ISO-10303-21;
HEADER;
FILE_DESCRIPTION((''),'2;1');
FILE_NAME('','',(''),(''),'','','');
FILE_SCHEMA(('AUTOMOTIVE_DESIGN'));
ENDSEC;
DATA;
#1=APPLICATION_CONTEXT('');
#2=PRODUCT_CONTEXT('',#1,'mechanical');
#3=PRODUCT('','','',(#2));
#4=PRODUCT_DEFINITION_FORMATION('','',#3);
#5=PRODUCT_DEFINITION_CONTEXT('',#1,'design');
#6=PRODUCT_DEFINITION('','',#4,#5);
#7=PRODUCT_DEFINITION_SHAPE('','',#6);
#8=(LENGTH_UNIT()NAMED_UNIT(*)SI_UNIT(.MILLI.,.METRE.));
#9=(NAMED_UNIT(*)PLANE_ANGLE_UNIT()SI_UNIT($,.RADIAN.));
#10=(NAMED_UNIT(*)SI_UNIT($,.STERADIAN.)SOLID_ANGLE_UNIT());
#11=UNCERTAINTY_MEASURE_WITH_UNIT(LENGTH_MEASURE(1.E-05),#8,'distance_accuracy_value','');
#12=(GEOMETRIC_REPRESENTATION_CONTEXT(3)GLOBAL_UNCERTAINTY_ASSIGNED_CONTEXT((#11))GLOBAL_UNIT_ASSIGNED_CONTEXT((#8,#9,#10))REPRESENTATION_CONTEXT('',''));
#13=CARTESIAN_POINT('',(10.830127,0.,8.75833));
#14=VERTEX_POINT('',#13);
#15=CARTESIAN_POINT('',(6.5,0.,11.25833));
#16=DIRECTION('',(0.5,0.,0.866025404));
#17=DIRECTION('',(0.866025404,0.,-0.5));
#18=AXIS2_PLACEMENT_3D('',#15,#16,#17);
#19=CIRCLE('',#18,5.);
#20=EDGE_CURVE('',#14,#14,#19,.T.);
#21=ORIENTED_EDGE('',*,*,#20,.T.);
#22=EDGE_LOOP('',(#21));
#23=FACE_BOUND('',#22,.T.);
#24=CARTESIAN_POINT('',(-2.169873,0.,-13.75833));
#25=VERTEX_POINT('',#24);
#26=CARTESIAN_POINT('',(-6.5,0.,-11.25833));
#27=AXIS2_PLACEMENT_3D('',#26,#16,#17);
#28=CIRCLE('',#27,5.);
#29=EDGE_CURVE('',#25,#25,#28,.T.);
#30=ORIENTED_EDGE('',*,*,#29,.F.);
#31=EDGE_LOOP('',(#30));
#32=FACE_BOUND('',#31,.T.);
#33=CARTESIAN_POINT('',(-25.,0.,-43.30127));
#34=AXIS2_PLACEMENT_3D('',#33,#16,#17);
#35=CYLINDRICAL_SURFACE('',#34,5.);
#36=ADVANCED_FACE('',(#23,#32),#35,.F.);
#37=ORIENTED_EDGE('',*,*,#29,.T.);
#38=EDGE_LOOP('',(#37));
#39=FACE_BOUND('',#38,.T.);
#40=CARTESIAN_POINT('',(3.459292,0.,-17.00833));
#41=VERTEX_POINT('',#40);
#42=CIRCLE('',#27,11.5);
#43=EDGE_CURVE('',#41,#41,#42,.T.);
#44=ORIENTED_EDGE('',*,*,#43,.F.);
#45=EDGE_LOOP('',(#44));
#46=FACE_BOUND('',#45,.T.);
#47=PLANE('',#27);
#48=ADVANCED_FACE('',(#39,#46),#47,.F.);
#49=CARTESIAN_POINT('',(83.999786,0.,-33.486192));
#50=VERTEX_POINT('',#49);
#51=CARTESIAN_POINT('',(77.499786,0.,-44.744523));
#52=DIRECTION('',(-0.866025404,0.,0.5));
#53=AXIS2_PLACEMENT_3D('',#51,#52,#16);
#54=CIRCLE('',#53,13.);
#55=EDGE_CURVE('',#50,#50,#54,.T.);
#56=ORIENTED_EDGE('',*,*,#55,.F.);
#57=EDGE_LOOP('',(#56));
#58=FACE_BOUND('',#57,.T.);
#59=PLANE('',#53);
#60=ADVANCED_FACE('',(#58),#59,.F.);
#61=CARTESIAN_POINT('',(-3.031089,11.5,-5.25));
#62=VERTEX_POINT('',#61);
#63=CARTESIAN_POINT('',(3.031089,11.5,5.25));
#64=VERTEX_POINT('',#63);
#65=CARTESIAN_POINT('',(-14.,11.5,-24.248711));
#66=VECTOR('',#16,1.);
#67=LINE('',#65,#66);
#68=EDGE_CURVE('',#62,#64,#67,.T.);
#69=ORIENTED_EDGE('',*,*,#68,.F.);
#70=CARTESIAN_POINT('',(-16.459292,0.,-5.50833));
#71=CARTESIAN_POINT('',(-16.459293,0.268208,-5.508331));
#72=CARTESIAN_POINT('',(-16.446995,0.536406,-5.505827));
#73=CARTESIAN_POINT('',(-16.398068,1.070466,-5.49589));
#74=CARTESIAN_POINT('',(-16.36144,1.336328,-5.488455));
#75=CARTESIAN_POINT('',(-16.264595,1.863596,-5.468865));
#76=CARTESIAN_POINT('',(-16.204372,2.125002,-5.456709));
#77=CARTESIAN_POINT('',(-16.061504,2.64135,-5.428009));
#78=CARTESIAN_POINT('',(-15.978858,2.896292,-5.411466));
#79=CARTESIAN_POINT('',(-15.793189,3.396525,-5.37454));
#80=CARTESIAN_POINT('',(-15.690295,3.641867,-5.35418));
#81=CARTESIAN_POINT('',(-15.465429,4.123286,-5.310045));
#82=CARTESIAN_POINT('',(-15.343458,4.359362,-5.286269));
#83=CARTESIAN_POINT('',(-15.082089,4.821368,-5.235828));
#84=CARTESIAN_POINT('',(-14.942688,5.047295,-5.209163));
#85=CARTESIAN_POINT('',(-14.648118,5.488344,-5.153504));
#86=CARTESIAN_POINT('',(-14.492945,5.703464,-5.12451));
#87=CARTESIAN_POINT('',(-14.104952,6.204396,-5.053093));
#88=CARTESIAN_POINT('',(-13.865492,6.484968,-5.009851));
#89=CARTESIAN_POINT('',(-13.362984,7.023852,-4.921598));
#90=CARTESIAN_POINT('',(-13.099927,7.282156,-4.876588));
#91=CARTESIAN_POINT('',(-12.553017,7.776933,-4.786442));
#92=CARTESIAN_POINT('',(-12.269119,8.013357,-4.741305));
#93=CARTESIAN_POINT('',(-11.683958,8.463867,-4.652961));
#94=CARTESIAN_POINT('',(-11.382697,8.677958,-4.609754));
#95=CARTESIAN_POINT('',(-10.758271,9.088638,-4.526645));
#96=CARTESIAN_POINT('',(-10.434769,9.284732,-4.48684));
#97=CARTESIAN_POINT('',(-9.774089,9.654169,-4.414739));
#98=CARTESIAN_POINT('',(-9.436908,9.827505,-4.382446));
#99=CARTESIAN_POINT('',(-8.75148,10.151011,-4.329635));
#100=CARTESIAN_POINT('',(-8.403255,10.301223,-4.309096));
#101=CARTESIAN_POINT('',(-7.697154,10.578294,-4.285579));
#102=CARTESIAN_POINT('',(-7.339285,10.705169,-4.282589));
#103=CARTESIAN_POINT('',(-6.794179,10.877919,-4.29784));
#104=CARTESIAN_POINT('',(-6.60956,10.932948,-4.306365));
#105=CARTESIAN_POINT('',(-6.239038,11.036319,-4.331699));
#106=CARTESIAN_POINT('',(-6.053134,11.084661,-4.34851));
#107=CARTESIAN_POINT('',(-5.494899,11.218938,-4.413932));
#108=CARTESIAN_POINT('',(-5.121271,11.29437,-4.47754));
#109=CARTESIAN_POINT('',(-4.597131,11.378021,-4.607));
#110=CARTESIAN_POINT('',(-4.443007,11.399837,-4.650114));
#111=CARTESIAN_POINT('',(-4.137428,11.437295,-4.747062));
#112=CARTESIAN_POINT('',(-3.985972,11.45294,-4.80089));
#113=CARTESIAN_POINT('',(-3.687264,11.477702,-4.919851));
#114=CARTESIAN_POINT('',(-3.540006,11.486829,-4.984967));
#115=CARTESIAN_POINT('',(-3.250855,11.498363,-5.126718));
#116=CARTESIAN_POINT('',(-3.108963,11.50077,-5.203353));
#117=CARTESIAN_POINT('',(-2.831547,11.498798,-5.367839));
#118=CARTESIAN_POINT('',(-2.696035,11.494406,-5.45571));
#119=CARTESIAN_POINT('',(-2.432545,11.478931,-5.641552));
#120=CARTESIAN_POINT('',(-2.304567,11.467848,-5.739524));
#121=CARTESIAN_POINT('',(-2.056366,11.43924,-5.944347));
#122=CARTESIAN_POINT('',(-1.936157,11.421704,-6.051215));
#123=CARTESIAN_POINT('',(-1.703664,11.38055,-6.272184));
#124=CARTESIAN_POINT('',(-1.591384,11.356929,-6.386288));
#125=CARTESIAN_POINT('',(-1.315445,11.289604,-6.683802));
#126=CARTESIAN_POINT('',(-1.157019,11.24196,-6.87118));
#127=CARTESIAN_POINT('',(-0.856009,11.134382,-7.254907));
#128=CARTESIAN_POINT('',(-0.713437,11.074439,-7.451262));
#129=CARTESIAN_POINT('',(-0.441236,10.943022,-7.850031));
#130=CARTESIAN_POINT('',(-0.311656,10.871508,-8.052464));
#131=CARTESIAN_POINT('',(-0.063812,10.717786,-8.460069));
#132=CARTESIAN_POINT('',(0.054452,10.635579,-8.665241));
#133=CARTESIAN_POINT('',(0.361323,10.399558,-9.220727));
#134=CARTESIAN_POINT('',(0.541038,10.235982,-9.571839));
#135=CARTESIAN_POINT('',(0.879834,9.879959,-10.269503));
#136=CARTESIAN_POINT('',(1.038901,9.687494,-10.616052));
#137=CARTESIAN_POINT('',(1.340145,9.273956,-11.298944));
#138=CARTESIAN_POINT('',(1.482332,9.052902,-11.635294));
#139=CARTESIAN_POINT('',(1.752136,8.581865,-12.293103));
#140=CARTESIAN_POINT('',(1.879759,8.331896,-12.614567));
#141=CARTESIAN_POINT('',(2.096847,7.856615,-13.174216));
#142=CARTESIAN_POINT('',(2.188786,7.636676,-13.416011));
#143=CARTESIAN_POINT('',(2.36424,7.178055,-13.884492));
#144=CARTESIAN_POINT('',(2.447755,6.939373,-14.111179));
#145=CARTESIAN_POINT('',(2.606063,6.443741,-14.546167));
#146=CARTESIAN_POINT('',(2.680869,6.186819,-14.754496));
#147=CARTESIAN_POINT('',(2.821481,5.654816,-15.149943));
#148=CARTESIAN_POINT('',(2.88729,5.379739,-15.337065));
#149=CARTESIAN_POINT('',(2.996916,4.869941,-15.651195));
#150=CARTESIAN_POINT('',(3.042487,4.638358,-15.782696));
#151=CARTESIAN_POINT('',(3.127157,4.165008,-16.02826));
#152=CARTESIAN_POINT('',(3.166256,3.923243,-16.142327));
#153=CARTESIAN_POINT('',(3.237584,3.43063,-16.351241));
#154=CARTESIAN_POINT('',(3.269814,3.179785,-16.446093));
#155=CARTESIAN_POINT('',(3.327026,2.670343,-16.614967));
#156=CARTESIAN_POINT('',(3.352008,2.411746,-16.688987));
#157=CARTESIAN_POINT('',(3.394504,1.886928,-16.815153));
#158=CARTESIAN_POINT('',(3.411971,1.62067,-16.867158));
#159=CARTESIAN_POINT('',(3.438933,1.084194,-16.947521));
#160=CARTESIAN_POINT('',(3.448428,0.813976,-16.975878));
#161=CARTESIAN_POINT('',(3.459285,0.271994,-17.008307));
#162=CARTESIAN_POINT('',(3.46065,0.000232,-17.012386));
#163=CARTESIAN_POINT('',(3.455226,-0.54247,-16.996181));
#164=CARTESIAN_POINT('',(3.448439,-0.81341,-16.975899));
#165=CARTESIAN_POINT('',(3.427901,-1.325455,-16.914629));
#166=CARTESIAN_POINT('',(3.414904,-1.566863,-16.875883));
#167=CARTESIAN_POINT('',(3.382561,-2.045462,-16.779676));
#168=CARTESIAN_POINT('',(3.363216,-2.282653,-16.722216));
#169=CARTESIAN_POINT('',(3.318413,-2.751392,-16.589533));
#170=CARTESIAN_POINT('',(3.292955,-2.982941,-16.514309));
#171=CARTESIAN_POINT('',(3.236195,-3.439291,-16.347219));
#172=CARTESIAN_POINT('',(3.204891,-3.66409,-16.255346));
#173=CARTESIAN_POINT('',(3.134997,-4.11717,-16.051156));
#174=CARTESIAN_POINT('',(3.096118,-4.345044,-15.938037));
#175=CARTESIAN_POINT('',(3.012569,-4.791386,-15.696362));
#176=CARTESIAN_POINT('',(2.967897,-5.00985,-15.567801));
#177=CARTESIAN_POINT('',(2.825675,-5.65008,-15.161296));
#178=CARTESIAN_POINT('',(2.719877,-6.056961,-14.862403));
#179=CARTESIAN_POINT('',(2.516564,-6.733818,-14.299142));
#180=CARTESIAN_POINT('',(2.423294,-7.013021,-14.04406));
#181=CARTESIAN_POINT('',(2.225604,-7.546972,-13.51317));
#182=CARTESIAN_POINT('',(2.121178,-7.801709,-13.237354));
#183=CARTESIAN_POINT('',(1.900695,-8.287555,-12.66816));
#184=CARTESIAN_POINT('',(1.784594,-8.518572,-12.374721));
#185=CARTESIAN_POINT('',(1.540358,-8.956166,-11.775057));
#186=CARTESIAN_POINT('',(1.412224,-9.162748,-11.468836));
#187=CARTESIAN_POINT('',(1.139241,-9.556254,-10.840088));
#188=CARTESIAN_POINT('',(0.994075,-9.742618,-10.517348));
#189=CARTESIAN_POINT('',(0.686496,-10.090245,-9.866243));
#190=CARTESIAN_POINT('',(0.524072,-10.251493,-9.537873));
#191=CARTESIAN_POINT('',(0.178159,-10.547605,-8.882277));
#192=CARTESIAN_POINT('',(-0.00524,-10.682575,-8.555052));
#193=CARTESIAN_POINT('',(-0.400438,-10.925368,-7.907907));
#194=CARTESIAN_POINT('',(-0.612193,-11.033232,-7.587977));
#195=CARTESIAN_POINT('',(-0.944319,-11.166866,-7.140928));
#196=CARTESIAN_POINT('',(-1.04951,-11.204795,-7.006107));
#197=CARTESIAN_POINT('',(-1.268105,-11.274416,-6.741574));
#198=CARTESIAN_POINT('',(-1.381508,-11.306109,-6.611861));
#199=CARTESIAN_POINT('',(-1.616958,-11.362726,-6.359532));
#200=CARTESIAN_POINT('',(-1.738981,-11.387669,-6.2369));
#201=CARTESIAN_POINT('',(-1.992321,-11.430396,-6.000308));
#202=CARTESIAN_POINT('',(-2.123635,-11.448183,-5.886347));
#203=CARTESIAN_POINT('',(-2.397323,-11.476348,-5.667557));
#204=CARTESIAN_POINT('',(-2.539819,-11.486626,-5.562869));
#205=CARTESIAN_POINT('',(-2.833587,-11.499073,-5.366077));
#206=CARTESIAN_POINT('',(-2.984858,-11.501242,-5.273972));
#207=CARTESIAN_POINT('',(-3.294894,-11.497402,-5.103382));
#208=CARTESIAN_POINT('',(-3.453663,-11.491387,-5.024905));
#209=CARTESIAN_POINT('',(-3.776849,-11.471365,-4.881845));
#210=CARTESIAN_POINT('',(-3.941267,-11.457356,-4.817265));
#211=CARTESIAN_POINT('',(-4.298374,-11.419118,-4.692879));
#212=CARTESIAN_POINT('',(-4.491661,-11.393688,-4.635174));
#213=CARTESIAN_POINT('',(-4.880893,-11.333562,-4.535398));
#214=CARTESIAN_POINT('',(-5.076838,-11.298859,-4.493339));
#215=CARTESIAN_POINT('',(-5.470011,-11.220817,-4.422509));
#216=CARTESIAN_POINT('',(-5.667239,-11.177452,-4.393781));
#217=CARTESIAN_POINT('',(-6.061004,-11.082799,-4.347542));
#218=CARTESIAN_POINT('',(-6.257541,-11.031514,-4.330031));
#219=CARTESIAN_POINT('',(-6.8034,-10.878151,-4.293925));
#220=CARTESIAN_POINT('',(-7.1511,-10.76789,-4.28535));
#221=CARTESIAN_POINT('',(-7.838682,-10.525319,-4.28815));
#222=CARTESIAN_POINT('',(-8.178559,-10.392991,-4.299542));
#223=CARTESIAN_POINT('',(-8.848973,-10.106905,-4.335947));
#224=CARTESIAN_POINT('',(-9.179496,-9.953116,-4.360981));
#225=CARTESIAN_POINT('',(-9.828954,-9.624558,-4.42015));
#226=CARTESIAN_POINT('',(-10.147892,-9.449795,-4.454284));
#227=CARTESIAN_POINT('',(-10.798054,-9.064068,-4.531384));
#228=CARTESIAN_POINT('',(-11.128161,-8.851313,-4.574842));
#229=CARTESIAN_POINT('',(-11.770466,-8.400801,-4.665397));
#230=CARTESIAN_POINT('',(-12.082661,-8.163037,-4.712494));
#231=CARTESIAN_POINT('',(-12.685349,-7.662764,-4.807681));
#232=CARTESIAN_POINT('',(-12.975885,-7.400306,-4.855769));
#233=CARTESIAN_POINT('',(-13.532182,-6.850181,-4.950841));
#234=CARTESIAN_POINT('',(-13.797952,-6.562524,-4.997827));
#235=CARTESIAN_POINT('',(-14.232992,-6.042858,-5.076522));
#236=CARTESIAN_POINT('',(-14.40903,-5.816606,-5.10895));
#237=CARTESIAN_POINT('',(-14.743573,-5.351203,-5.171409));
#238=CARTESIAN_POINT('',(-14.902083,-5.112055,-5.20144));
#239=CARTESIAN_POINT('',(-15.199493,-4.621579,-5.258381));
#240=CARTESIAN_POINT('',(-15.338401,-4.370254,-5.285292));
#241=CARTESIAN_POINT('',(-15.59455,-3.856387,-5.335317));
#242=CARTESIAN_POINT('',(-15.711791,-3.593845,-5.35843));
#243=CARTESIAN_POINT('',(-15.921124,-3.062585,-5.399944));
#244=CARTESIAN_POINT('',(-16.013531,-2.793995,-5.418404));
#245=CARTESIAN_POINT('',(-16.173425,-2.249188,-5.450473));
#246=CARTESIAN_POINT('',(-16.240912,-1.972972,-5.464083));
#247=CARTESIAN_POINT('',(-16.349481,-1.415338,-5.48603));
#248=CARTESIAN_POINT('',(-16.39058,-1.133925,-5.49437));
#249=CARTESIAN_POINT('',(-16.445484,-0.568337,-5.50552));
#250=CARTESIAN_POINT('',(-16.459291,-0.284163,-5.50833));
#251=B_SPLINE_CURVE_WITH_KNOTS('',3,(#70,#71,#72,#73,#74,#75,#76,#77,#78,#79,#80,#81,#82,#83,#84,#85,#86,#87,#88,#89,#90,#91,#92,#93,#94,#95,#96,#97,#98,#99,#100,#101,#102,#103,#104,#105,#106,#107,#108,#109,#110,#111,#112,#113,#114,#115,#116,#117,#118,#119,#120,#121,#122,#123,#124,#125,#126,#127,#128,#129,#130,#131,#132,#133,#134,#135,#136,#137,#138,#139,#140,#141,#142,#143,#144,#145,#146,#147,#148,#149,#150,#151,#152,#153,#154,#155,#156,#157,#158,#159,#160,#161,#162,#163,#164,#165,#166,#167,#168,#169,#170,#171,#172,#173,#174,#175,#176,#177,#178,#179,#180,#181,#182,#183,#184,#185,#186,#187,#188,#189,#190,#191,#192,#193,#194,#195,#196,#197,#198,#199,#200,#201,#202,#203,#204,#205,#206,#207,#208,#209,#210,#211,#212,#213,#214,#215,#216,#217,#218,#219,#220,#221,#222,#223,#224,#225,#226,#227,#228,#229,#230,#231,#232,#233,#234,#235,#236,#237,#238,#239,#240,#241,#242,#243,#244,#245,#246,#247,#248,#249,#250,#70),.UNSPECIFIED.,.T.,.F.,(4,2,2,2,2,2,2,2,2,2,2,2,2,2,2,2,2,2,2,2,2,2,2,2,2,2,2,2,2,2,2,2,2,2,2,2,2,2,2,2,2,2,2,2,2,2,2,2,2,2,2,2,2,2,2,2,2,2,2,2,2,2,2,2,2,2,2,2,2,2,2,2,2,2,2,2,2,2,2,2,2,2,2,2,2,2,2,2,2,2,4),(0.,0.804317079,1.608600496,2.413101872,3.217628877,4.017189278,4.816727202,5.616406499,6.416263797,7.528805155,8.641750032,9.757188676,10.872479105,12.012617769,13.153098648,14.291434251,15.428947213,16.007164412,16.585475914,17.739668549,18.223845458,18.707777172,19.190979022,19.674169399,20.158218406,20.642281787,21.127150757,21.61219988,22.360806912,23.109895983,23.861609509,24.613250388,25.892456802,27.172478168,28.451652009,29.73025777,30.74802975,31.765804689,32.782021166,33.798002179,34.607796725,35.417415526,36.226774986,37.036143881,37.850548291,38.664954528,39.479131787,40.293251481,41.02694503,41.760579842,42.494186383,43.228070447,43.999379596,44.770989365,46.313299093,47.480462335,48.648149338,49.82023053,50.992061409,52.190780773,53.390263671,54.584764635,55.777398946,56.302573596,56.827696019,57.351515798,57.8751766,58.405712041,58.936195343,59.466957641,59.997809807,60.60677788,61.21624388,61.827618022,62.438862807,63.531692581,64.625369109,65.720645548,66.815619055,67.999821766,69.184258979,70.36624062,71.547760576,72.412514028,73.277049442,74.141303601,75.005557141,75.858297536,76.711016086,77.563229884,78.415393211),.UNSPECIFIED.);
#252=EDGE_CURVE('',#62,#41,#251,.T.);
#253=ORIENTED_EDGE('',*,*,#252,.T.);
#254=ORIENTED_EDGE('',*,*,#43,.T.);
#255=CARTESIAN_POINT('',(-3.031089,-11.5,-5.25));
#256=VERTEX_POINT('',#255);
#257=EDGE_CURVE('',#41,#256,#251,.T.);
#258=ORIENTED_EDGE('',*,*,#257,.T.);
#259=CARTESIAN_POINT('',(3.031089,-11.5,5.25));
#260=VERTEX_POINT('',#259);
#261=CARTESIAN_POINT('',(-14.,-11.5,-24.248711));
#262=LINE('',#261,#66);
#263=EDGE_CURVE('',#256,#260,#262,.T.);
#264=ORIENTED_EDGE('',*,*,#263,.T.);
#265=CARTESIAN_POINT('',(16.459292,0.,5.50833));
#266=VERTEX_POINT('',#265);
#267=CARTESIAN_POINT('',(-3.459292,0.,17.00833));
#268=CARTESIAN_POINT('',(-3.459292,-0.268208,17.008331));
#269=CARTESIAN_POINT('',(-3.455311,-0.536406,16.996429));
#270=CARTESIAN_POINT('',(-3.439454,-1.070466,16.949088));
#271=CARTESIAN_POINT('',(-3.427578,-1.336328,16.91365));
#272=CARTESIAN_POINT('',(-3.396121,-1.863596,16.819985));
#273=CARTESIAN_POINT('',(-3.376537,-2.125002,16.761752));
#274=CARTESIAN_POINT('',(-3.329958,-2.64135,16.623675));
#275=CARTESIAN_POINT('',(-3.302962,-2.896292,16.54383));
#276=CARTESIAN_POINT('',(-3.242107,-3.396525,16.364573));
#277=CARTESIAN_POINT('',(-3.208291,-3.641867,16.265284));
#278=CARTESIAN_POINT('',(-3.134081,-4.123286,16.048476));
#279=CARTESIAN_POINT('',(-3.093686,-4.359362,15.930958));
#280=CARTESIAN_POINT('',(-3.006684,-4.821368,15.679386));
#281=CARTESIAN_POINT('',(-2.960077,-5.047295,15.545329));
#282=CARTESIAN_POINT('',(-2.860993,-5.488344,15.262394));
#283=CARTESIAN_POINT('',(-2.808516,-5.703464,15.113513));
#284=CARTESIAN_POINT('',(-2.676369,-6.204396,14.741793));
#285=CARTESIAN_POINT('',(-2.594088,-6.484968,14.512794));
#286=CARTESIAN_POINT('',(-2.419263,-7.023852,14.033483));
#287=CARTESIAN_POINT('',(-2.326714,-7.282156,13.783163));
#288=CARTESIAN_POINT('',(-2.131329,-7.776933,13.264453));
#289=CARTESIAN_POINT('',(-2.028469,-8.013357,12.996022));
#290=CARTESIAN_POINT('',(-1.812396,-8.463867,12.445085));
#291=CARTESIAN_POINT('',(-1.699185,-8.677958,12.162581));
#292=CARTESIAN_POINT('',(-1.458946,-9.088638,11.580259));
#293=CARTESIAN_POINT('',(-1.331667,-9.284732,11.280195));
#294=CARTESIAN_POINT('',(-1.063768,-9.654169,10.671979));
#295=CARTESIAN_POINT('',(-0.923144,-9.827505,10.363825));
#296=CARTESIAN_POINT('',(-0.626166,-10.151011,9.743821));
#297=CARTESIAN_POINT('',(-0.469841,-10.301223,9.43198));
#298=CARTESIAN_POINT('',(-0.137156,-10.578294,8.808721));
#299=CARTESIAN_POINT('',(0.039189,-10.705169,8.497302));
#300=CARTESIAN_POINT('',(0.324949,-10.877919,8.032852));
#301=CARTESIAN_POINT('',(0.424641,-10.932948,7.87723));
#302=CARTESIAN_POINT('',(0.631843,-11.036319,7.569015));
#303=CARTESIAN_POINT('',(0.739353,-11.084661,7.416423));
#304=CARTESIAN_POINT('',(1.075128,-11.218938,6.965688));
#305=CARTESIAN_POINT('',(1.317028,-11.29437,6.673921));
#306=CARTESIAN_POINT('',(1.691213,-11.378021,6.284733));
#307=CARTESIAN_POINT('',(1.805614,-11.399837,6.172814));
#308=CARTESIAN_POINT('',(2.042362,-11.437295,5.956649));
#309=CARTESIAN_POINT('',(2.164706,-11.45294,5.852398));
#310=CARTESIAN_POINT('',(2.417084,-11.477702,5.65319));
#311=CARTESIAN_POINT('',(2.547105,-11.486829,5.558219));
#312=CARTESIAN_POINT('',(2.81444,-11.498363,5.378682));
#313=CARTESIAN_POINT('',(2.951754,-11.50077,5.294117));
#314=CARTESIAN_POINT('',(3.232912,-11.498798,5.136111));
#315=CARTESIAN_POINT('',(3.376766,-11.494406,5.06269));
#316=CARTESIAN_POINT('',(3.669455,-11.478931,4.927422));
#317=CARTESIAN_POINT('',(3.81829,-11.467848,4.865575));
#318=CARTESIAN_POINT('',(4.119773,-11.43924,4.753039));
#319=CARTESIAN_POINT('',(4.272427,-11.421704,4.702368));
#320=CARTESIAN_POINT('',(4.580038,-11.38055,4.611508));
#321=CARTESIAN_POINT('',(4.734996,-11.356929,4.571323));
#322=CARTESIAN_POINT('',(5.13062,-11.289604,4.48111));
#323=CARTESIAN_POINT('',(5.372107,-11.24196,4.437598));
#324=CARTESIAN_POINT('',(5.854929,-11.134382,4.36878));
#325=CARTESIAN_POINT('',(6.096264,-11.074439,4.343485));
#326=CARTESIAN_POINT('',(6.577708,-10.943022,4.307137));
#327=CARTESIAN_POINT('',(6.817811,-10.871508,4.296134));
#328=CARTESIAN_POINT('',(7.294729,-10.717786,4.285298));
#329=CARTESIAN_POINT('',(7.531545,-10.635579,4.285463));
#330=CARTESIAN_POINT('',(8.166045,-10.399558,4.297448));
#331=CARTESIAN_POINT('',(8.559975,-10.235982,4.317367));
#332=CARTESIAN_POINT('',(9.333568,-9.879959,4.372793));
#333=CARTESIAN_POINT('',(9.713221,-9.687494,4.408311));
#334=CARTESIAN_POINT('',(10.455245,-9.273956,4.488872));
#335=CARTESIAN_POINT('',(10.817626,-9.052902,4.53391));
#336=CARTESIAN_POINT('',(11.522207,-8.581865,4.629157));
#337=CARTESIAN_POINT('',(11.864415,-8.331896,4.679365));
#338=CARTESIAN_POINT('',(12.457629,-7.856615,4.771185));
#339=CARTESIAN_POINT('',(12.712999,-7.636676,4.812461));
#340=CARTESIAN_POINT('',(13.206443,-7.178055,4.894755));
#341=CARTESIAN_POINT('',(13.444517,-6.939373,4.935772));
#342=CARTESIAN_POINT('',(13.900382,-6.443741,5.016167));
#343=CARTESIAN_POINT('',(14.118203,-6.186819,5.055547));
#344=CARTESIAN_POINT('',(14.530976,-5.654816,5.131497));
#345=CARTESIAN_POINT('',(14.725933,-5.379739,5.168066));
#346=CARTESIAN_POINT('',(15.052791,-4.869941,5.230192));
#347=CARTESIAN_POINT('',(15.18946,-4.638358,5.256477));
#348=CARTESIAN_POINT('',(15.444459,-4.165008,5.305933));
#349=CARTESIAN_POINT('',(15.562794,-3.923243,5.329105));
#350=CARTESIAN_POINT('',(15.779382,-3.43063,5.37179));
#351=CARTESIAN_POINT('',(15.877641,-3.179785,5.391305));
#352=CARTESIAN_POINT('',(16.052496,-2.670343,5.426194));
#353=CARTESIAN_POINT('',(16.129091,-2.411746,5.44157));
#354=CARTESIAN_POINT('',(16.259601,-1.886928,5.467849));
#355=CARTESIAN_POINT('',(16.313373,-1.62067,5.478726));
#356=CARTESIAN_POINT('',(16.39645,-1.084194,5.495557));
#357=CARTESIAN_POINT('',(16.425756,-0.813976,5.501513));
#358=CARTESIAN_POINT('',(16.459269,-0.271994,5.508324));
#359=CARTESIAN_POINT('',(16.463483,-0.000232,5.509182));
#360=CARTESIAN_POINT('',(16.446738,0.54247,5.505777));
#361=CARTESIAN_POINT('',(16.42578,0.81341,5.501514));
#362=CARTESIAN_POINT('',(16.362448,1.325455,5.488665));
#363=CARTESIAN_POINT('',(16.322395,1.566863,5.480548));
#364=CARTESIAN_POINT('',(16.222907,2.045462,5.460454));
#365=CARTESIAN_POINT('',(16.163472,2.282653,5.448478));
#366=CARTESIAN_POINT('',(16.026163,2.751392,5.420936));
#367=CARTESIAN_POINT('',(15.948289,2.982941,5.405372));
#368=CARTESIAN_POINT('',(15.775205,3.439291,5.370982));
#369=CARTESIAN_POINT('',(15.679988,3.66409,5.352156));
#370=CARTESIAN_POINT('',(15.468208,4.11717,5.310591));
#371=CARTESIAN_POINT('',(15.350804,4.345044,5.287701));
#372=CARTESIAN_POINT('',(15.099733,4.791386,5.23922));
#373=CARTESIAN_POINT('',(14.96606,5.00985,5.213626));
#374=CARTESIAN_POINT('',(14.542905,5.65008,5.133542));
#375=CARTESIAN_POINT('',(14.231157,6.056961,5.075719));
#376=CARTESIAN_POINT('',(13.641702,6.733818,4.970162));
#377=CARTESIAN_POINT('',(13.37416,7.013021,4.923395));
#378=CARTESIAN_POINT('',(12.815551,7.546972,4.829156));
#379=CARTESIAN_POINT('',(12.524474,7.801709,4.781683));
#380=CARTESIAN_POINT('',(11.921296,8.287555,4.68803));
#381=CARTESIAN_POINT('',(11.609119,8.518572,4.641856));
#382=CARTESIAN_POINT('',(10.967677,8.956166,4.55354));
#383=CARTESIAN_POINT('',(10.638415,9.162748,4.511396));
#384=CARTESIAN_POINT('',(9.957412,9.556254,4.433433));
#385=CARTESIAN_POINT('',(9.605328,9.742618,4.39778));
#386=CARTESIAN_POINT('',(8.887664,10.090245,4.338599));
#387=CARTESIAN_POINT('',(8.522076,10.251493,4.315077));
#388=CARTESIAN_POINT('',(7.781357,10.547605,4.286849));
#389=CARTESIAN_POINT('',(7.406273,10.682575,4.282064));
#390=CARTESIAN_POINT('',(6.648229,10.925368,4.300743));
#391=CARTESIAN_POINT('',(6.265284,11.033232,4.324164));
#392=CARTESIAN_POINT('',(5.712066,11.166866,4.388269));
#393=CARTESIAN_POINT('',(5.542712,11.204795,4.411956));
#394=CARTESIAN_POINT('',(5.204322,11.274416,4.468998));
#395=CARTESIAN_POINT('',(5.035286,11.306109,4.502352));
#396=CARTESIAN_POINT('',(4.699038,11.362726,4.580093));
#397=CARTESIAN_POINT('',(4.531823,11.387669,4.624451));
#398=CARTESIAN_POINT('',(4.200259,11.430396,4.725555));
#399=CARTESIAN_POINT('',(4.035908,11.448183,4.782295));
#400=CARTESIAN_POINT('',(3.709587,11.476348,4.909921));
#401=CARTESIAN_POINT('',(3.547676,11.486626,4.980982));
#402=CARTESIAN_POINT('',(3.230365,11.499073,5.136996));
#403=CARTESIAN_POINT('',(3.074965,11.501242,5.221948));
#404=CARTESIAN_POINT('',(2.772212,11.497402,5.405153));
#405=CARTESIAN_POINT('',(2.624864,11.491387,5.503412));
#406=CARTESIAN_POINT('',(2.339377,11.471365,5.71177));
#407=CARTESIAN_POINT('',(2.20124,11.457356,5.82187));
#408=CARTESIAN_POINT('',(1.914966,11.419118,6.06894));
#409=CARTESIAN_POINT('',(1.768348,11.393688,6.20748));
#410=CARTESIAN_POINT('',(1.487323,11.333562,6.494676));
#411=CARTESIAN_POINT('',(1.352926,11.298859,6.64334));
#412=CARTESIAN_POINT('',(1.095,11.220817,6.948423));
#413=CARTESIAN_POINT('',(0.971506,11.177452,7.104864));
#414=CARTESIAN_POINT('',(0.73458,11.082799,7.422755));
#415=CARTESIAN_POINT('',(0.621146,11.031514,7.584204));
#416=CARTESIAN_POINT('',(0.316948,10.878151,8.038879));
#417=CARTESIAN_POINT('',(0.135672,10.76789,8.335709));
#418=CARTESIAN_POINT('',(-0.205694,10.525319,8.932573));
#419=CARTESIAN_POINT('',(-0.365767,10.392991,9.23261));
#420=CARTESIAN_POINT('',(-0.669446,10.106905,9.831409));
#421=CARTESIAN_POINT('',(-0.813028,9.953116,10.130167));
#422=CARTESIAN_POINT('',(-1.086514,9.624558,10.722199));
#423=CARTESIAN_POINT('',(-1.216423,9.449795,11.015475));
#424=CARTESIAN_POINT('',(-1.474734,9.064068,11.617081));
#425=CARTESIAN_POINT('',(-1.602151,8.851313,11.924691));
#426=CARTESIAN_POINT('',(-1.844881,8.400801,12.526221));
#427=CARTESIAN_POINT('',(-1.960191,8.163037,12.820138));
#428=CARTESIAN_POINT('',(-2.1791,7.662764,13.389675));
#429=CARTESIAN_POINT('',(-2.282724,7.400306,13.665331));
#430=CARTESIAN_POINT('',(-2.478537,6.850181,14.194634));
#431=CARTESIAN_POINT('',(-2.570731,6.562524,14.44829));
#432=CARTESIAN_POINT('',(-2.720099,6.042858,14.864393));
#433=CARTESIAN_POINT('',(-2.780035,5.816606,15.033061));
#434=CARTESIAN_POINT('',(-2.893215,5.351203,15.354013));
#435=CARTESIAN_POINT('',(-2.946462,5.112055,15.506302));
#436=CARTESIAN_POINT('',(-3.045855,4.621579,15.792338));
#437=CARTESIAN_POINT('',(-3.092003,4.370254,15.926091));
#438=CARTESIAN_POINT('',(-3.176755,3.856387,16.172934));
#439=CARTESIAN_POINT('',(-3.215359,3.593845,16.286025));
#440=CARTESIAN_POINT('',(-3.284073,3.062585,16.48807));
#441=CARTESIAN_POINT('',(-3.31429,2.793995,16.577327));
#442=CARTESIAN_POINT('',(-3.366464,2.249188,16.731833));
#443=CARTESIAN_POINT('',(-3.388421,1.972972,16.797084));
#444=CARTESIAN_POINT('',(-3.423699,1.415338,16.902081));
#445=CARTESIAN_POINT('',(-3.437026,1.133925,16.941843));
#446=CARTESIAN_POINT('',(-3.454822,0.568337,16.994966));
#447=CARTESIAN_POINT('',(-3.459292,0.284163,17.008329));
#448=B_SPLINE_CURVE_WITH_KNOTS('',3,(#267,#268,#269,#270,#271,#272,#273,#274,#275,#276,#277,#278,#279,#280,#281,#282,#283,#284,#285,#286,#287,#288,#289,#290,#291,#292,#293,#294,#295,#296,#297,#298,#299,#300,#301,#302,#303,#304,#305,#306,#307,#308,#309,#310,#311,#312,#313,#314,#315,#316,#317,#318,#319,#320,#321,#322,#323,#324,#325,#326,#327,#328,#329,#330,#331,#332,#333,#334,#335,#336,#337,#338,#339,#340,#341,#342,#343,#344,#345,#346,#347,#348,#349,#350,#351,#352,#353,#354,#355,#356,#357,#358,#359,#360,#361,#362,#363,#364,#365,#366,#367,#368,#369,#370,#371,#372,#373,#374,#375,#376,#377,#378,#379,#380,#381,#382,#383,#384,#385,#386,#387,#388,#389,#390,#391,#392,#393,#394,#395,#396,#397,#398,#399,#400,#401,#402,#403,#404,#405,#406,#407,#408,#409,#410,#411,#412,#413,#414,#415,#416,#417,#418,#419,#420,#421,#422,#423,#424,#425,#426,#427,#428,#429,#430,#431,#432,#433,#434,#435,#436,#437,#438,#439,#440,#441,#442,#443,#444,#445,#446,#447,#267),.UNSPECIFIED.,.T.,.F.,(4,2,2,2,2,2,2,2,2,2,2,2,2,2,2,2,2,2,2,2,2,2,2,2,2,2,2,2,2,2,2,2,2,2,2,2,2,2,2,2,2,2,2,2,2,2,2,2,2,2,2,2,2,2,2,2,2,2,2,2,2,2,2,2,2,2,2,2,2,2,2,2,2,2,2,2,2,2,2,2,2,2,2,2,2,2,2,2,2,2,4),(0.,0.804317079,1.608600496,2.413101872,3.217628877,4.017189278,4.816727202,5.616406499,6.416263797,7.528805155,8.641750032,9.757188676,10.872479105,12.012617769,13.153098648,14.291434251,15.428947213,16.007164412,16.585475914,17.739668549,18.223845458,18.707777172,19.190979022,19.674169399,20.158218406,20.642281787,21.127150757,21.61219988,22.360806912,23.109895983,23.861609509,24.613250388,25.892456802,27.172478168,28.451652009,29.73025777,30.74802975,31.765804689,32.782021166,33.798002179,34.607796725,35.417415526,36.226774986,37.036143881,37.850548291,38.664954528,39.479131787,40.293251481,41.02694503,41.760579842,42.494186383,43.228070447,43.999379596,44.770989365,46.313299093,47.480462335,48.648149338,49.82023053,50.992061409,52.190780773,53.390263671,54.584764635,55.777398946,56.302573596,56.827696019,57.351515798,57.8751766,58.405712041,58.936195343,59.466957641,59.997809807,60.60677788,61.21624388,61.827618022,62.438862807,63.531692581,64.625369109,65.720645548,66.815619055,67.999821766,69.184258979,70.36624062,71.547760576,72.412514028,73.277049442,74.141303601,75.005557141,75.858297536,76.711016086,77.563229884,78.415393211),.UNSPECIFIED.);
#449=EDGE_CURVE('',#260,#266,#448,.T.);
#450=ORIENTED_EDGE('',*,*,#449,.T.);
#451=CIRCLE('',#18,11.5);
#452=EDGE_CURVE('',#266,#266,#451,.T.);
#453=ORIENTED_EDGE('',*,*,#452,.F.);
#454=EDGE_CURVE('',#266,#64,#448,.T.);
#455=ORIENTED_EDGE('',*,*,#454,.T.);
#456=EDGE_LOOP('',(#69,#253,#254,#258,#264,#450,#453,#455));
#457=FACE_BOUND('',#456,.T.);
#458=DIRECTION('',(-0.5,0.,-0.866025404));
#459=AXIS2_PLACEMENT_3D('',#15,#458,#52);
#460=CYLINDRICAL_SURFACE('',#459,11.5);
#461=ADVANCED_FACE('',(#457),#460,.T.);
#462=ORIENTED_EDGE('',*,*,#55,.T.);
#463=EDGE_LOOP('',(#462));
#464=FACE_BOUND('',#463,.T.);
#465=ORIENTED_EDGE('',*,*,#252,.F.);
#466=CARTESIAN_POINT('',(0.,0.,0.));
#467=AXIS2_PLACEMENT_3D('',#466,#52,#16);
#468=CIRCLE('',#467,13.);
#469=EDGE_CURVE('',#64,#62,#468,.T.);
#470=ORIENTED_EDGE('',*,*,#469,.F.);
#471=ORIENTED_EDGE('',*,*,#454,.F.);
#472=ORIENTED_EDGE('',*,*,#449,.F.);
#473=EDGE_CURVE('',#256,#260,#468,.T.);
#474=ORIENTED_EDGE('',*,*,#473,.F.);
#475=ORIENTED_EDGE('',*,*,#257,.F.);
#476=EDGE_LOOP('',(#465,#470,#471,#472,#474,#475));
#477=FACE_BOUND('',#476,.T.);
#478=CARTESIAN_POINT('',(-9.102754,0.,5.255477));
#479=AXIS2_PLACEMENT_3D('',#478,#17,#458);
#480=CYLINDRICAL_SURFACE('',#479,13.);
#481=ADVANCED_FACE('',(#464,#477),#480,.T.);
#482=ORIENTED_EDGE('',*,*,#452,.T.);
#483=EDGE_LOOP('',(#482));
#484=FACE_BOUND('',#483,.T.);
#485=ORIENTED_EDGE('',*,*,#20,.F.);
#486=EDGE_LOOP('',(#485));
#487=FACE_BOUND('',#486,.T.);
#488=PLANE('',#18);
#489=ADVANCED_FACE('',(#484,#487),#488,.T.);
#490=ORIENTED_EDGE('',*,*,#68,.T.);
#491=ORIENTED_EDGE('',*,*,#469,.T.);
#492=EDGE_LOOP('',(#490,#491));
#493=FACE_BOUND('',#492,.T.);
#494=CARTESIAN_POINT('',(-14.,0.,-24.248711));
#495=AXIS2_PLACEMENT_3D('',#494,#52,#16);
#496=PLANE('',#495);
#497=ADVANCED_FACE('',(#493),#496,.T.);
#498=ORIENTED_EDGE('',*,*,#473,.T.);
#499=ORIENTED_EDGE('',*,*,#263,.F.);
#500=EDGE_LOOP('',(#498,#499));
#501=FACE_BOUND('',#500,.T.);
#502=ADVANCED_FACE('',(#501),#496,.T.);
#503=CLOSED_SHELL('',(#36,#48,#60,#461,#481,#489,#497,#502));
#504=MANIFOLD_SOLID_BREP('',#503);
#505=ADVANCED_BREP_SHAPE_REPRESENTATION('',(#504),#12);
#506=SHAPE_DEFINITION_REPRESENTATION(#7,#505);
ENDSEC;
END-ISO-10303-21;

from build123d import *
from build123d.topology import SkipClean

# Parameters (mm, degrees)
BOSS_EXTRUDE1_DEPTH = 25
SKETCH2_R           = 8
CUT_EXTRUDE1_DEPTH  = 110
CUT_EXTRUDE2_DEPTH  = 150
BOSS_EXTRUDE2_START = 21.60254038
BOSS_EXTRUDE2_DEPTH = 21.60254038
SKETCH5_R           = 13
CUT_EXTRUDE3_DEPTH  = 50
SKETCH6_R           = 13
BOSS_EXTRUDE3_DEPTH = 100
SKETCH7_R           = 5
CUT_EXTRUDE4_DEPTH  = 50
SKETCH8_R           = 11.5
SKETCH8_R_2         = 5
BOSS_EXTRUDE4_DEPTH = 13
CUT_EXTRUDE5_DEPTH  = 28


with BuildPart() as part:
    # Sketch1 → Boss-Extrude1 (new, symmetric)
    with BuildSketch(Plane(origin=(0, 0, 0), x_dir=(1, 0, 0), z_dir=(0, 1, 0))):
        Polygon((86.602540378, 150), (103.923048454, 160), (114.724318643, 141.291651246), (93.073683549, 128.791651246), (158.073683549, 16.208348754), (179.724318643, 28.708348754), (190.525588833, 10), (173.205080757, 0), (45.59802172, 0), (22.79901086, 39.489045172), align=None)
    extrude(amount=BOSS_EXTRUDE1_DEPTH, both=True)

    # Sketch2 → Cut-Extrude1 (cut, symmetric)
    with BuildSketch(Plane(origin=(140.729128115, 0, -81.25), x_dir=(0.8660254037844386, 0, -0.5000000000000003), z_dir=(0.5000000000000003, 0, 0.8660254037844386))):
        Circle(SKETCH2_R)
    extrude(amount=CUT_EXTRUDE1_DEPTH, both=True, mode=Mode.SUBTRACT)

    # Sketch3 → Cut-Extrude2 (cut, symmetric)
    with BuildSketch(Plane(origin=(140.729128115, 0, -81.25), x_dir=(0.8660254037844386, 0, -0.5000000000000003), z_dir=(0.5000000000000003, 0, 0.8660254037844386))):
        with BuildLine():
            Line((0, 18), (-12.5, 18))
            Line((-12.5, 18), (-12.5, 31.312178452))
            Line((-12.5, 31.312178452), (23.905899442, 31.312178452))
            Line((23.905899442, 31.312178452), (23.905899442, -29.505210198))
            Line((23.905899442, -29.505210198), (-12.5, -29.505210198))
            Line((-12.5, -29.505210198), (-12.5, -18))
            Line((-12.5, -18), (0, -18))
            ThreePointArc((0, -18), (18, 0), (0, 18))
        make_face()
    extrude(amount=CUT_EXTRUDE2_DEPTH, both=True, mode=Mode.SUBTRACT)

    # Sketch4 → Boss-Extrude2 (add)
    with SkipClean():  # the faces are left unmerged after this step: merging them gives an invalid solid
        with BuildSketch(Plane(origin=(173.229128115, 0, -24.958348754), x_dir=(0.8660254037844386, 0, -0.5000000000000003), z_dir=(0.5000000000000003, 0, 0.8660254037844386)).offset(BOSS_EXTRUDE2_START)):
            with BuildLine():
                Line((7.5, 16.363068172), (7.5, 2.783882181))
                ThreePointArc((7.5, 2.783882181), (8, 0), (7.5, -2.783882181))
                Line((7.5, -2.783882181), (7.5, -16.363068172))
                ThreePointArc((7.5, -16.363068172), (18, 0), (7.5, 16.363068172))
            make_face()
        boss_extrude2 = extrude(amount=-BOSS_EXTRUDE2_DEPTH)

    # Mirror2: Boss-Extrude2 across plane
    with SkipClean():  # the faces are left unmerged after this step: merging them gives an invalid solid
        add(boss_extrude2.mirror(Plane(origin=(140.729128115, 0, -81.25), x_dir=(-0.8660254037844388, 0, 0.5), z_dir=(0.5000000000000003, 0, 0.8660254037844386))))

    # Sketch5 → Cut-Extrude3 (cut)
    with SkipClean():  # the faces are left unmerged after this step: merging them gives an invalid solid
        with BuildSketch(Plane(origin=(34.19851629, 0, -19.744522586), x_dir=(0.5000000000000001, 0, 0.8660254037844386), z_dir=(-0.8660254037844386, 0, 0.5000000000000001))):
            Circle(SKETCH5_R)
        extrude(amount=-CUT_EXTRUDE3_DEPTH, mode=Mode.SUBTRACT)


with BuildPart() as body_2:
    # Sketch6 → Boss-Extrude3 (new body)
    with BuildSketch(Plane(origin=(77.499786479, 0, -44.744522586), x_dir=(0.5000000000000001, 0, 0.8660254037844386), z_dir=(-0.8660254037844386, 0, 0.5000000000000001))):
        Circle(SKETCH6_R)
    extrude(amount=BOSS_EXTRUDE3_DEPTH)

    # Sketch7 → Cut-Extrude4 (cut, symmetric)
    with BuildSketch(Plane(origin=(140.729128115, 0, -81.25), x_dir=(0.8660254037844386, 0, -0.5000000000000003), z_dir=(0.5000000000000003, 0, 0.8660254037844386))):
        with Locations((-162.5, 0)):
            Circle(SKETCH7_R)
    extrude(amount=CUT_EXTRUDE4_DEPTH, both=True, mode=Mode.SUBTRACT)

    # Sketch8 → Boss-Extrude4 (add, symmetric)
    with BuildSketch(Plane(origin=(140.729128115, 0, -81.25), x_dir=(0.8660254037844386, 0, -0.5000000000000003), z_dir=(0.5000000000000003, 0, 0.8660254037844386))):
        with Locations((-162.5, 0)):
            Circle(SKETCH8_R)
        with Locations((-162.5, 0)):
            Circle(SKETCH8_R_2, mode=Mode.SUBTRACT)
    extrude(amount=BOSS_EXTRUDE4_DEPTH, both=True)

    # Sketch9 → Cut-Extrude5 (cut, symmetric)
    with SkipClean():  # the faces are left unmerged after this step: merging them gives an invalid solid
        with BuildSketch(Plane(origin=(140.729128115, 0, -81.25), x_dir=(0.8660254037844386, 0, -0.5000000000000003), z_dir=(0.5000000000000003, 0, 0.8660254037844386))):
            with BuildLine():
                Line((-162.5, 11.5), (-162.5, 18.834095503))
                ThreePointArc((-162.5, 18.834095503), (-181.334095503, 0), (-162.5, -18.834095503))
                Line((-162.5, -18.834095503), (-162.5, -11.5))
                ThreePointArc((-162.5, -11.5), (-174, 0), (-162.5, 11.5))
            make_face()
        extrude(amount=CUT_EXTRUDE5_DEPTH, both=True, mode=Mode.SUBTRACT)


solid = body_2.part
